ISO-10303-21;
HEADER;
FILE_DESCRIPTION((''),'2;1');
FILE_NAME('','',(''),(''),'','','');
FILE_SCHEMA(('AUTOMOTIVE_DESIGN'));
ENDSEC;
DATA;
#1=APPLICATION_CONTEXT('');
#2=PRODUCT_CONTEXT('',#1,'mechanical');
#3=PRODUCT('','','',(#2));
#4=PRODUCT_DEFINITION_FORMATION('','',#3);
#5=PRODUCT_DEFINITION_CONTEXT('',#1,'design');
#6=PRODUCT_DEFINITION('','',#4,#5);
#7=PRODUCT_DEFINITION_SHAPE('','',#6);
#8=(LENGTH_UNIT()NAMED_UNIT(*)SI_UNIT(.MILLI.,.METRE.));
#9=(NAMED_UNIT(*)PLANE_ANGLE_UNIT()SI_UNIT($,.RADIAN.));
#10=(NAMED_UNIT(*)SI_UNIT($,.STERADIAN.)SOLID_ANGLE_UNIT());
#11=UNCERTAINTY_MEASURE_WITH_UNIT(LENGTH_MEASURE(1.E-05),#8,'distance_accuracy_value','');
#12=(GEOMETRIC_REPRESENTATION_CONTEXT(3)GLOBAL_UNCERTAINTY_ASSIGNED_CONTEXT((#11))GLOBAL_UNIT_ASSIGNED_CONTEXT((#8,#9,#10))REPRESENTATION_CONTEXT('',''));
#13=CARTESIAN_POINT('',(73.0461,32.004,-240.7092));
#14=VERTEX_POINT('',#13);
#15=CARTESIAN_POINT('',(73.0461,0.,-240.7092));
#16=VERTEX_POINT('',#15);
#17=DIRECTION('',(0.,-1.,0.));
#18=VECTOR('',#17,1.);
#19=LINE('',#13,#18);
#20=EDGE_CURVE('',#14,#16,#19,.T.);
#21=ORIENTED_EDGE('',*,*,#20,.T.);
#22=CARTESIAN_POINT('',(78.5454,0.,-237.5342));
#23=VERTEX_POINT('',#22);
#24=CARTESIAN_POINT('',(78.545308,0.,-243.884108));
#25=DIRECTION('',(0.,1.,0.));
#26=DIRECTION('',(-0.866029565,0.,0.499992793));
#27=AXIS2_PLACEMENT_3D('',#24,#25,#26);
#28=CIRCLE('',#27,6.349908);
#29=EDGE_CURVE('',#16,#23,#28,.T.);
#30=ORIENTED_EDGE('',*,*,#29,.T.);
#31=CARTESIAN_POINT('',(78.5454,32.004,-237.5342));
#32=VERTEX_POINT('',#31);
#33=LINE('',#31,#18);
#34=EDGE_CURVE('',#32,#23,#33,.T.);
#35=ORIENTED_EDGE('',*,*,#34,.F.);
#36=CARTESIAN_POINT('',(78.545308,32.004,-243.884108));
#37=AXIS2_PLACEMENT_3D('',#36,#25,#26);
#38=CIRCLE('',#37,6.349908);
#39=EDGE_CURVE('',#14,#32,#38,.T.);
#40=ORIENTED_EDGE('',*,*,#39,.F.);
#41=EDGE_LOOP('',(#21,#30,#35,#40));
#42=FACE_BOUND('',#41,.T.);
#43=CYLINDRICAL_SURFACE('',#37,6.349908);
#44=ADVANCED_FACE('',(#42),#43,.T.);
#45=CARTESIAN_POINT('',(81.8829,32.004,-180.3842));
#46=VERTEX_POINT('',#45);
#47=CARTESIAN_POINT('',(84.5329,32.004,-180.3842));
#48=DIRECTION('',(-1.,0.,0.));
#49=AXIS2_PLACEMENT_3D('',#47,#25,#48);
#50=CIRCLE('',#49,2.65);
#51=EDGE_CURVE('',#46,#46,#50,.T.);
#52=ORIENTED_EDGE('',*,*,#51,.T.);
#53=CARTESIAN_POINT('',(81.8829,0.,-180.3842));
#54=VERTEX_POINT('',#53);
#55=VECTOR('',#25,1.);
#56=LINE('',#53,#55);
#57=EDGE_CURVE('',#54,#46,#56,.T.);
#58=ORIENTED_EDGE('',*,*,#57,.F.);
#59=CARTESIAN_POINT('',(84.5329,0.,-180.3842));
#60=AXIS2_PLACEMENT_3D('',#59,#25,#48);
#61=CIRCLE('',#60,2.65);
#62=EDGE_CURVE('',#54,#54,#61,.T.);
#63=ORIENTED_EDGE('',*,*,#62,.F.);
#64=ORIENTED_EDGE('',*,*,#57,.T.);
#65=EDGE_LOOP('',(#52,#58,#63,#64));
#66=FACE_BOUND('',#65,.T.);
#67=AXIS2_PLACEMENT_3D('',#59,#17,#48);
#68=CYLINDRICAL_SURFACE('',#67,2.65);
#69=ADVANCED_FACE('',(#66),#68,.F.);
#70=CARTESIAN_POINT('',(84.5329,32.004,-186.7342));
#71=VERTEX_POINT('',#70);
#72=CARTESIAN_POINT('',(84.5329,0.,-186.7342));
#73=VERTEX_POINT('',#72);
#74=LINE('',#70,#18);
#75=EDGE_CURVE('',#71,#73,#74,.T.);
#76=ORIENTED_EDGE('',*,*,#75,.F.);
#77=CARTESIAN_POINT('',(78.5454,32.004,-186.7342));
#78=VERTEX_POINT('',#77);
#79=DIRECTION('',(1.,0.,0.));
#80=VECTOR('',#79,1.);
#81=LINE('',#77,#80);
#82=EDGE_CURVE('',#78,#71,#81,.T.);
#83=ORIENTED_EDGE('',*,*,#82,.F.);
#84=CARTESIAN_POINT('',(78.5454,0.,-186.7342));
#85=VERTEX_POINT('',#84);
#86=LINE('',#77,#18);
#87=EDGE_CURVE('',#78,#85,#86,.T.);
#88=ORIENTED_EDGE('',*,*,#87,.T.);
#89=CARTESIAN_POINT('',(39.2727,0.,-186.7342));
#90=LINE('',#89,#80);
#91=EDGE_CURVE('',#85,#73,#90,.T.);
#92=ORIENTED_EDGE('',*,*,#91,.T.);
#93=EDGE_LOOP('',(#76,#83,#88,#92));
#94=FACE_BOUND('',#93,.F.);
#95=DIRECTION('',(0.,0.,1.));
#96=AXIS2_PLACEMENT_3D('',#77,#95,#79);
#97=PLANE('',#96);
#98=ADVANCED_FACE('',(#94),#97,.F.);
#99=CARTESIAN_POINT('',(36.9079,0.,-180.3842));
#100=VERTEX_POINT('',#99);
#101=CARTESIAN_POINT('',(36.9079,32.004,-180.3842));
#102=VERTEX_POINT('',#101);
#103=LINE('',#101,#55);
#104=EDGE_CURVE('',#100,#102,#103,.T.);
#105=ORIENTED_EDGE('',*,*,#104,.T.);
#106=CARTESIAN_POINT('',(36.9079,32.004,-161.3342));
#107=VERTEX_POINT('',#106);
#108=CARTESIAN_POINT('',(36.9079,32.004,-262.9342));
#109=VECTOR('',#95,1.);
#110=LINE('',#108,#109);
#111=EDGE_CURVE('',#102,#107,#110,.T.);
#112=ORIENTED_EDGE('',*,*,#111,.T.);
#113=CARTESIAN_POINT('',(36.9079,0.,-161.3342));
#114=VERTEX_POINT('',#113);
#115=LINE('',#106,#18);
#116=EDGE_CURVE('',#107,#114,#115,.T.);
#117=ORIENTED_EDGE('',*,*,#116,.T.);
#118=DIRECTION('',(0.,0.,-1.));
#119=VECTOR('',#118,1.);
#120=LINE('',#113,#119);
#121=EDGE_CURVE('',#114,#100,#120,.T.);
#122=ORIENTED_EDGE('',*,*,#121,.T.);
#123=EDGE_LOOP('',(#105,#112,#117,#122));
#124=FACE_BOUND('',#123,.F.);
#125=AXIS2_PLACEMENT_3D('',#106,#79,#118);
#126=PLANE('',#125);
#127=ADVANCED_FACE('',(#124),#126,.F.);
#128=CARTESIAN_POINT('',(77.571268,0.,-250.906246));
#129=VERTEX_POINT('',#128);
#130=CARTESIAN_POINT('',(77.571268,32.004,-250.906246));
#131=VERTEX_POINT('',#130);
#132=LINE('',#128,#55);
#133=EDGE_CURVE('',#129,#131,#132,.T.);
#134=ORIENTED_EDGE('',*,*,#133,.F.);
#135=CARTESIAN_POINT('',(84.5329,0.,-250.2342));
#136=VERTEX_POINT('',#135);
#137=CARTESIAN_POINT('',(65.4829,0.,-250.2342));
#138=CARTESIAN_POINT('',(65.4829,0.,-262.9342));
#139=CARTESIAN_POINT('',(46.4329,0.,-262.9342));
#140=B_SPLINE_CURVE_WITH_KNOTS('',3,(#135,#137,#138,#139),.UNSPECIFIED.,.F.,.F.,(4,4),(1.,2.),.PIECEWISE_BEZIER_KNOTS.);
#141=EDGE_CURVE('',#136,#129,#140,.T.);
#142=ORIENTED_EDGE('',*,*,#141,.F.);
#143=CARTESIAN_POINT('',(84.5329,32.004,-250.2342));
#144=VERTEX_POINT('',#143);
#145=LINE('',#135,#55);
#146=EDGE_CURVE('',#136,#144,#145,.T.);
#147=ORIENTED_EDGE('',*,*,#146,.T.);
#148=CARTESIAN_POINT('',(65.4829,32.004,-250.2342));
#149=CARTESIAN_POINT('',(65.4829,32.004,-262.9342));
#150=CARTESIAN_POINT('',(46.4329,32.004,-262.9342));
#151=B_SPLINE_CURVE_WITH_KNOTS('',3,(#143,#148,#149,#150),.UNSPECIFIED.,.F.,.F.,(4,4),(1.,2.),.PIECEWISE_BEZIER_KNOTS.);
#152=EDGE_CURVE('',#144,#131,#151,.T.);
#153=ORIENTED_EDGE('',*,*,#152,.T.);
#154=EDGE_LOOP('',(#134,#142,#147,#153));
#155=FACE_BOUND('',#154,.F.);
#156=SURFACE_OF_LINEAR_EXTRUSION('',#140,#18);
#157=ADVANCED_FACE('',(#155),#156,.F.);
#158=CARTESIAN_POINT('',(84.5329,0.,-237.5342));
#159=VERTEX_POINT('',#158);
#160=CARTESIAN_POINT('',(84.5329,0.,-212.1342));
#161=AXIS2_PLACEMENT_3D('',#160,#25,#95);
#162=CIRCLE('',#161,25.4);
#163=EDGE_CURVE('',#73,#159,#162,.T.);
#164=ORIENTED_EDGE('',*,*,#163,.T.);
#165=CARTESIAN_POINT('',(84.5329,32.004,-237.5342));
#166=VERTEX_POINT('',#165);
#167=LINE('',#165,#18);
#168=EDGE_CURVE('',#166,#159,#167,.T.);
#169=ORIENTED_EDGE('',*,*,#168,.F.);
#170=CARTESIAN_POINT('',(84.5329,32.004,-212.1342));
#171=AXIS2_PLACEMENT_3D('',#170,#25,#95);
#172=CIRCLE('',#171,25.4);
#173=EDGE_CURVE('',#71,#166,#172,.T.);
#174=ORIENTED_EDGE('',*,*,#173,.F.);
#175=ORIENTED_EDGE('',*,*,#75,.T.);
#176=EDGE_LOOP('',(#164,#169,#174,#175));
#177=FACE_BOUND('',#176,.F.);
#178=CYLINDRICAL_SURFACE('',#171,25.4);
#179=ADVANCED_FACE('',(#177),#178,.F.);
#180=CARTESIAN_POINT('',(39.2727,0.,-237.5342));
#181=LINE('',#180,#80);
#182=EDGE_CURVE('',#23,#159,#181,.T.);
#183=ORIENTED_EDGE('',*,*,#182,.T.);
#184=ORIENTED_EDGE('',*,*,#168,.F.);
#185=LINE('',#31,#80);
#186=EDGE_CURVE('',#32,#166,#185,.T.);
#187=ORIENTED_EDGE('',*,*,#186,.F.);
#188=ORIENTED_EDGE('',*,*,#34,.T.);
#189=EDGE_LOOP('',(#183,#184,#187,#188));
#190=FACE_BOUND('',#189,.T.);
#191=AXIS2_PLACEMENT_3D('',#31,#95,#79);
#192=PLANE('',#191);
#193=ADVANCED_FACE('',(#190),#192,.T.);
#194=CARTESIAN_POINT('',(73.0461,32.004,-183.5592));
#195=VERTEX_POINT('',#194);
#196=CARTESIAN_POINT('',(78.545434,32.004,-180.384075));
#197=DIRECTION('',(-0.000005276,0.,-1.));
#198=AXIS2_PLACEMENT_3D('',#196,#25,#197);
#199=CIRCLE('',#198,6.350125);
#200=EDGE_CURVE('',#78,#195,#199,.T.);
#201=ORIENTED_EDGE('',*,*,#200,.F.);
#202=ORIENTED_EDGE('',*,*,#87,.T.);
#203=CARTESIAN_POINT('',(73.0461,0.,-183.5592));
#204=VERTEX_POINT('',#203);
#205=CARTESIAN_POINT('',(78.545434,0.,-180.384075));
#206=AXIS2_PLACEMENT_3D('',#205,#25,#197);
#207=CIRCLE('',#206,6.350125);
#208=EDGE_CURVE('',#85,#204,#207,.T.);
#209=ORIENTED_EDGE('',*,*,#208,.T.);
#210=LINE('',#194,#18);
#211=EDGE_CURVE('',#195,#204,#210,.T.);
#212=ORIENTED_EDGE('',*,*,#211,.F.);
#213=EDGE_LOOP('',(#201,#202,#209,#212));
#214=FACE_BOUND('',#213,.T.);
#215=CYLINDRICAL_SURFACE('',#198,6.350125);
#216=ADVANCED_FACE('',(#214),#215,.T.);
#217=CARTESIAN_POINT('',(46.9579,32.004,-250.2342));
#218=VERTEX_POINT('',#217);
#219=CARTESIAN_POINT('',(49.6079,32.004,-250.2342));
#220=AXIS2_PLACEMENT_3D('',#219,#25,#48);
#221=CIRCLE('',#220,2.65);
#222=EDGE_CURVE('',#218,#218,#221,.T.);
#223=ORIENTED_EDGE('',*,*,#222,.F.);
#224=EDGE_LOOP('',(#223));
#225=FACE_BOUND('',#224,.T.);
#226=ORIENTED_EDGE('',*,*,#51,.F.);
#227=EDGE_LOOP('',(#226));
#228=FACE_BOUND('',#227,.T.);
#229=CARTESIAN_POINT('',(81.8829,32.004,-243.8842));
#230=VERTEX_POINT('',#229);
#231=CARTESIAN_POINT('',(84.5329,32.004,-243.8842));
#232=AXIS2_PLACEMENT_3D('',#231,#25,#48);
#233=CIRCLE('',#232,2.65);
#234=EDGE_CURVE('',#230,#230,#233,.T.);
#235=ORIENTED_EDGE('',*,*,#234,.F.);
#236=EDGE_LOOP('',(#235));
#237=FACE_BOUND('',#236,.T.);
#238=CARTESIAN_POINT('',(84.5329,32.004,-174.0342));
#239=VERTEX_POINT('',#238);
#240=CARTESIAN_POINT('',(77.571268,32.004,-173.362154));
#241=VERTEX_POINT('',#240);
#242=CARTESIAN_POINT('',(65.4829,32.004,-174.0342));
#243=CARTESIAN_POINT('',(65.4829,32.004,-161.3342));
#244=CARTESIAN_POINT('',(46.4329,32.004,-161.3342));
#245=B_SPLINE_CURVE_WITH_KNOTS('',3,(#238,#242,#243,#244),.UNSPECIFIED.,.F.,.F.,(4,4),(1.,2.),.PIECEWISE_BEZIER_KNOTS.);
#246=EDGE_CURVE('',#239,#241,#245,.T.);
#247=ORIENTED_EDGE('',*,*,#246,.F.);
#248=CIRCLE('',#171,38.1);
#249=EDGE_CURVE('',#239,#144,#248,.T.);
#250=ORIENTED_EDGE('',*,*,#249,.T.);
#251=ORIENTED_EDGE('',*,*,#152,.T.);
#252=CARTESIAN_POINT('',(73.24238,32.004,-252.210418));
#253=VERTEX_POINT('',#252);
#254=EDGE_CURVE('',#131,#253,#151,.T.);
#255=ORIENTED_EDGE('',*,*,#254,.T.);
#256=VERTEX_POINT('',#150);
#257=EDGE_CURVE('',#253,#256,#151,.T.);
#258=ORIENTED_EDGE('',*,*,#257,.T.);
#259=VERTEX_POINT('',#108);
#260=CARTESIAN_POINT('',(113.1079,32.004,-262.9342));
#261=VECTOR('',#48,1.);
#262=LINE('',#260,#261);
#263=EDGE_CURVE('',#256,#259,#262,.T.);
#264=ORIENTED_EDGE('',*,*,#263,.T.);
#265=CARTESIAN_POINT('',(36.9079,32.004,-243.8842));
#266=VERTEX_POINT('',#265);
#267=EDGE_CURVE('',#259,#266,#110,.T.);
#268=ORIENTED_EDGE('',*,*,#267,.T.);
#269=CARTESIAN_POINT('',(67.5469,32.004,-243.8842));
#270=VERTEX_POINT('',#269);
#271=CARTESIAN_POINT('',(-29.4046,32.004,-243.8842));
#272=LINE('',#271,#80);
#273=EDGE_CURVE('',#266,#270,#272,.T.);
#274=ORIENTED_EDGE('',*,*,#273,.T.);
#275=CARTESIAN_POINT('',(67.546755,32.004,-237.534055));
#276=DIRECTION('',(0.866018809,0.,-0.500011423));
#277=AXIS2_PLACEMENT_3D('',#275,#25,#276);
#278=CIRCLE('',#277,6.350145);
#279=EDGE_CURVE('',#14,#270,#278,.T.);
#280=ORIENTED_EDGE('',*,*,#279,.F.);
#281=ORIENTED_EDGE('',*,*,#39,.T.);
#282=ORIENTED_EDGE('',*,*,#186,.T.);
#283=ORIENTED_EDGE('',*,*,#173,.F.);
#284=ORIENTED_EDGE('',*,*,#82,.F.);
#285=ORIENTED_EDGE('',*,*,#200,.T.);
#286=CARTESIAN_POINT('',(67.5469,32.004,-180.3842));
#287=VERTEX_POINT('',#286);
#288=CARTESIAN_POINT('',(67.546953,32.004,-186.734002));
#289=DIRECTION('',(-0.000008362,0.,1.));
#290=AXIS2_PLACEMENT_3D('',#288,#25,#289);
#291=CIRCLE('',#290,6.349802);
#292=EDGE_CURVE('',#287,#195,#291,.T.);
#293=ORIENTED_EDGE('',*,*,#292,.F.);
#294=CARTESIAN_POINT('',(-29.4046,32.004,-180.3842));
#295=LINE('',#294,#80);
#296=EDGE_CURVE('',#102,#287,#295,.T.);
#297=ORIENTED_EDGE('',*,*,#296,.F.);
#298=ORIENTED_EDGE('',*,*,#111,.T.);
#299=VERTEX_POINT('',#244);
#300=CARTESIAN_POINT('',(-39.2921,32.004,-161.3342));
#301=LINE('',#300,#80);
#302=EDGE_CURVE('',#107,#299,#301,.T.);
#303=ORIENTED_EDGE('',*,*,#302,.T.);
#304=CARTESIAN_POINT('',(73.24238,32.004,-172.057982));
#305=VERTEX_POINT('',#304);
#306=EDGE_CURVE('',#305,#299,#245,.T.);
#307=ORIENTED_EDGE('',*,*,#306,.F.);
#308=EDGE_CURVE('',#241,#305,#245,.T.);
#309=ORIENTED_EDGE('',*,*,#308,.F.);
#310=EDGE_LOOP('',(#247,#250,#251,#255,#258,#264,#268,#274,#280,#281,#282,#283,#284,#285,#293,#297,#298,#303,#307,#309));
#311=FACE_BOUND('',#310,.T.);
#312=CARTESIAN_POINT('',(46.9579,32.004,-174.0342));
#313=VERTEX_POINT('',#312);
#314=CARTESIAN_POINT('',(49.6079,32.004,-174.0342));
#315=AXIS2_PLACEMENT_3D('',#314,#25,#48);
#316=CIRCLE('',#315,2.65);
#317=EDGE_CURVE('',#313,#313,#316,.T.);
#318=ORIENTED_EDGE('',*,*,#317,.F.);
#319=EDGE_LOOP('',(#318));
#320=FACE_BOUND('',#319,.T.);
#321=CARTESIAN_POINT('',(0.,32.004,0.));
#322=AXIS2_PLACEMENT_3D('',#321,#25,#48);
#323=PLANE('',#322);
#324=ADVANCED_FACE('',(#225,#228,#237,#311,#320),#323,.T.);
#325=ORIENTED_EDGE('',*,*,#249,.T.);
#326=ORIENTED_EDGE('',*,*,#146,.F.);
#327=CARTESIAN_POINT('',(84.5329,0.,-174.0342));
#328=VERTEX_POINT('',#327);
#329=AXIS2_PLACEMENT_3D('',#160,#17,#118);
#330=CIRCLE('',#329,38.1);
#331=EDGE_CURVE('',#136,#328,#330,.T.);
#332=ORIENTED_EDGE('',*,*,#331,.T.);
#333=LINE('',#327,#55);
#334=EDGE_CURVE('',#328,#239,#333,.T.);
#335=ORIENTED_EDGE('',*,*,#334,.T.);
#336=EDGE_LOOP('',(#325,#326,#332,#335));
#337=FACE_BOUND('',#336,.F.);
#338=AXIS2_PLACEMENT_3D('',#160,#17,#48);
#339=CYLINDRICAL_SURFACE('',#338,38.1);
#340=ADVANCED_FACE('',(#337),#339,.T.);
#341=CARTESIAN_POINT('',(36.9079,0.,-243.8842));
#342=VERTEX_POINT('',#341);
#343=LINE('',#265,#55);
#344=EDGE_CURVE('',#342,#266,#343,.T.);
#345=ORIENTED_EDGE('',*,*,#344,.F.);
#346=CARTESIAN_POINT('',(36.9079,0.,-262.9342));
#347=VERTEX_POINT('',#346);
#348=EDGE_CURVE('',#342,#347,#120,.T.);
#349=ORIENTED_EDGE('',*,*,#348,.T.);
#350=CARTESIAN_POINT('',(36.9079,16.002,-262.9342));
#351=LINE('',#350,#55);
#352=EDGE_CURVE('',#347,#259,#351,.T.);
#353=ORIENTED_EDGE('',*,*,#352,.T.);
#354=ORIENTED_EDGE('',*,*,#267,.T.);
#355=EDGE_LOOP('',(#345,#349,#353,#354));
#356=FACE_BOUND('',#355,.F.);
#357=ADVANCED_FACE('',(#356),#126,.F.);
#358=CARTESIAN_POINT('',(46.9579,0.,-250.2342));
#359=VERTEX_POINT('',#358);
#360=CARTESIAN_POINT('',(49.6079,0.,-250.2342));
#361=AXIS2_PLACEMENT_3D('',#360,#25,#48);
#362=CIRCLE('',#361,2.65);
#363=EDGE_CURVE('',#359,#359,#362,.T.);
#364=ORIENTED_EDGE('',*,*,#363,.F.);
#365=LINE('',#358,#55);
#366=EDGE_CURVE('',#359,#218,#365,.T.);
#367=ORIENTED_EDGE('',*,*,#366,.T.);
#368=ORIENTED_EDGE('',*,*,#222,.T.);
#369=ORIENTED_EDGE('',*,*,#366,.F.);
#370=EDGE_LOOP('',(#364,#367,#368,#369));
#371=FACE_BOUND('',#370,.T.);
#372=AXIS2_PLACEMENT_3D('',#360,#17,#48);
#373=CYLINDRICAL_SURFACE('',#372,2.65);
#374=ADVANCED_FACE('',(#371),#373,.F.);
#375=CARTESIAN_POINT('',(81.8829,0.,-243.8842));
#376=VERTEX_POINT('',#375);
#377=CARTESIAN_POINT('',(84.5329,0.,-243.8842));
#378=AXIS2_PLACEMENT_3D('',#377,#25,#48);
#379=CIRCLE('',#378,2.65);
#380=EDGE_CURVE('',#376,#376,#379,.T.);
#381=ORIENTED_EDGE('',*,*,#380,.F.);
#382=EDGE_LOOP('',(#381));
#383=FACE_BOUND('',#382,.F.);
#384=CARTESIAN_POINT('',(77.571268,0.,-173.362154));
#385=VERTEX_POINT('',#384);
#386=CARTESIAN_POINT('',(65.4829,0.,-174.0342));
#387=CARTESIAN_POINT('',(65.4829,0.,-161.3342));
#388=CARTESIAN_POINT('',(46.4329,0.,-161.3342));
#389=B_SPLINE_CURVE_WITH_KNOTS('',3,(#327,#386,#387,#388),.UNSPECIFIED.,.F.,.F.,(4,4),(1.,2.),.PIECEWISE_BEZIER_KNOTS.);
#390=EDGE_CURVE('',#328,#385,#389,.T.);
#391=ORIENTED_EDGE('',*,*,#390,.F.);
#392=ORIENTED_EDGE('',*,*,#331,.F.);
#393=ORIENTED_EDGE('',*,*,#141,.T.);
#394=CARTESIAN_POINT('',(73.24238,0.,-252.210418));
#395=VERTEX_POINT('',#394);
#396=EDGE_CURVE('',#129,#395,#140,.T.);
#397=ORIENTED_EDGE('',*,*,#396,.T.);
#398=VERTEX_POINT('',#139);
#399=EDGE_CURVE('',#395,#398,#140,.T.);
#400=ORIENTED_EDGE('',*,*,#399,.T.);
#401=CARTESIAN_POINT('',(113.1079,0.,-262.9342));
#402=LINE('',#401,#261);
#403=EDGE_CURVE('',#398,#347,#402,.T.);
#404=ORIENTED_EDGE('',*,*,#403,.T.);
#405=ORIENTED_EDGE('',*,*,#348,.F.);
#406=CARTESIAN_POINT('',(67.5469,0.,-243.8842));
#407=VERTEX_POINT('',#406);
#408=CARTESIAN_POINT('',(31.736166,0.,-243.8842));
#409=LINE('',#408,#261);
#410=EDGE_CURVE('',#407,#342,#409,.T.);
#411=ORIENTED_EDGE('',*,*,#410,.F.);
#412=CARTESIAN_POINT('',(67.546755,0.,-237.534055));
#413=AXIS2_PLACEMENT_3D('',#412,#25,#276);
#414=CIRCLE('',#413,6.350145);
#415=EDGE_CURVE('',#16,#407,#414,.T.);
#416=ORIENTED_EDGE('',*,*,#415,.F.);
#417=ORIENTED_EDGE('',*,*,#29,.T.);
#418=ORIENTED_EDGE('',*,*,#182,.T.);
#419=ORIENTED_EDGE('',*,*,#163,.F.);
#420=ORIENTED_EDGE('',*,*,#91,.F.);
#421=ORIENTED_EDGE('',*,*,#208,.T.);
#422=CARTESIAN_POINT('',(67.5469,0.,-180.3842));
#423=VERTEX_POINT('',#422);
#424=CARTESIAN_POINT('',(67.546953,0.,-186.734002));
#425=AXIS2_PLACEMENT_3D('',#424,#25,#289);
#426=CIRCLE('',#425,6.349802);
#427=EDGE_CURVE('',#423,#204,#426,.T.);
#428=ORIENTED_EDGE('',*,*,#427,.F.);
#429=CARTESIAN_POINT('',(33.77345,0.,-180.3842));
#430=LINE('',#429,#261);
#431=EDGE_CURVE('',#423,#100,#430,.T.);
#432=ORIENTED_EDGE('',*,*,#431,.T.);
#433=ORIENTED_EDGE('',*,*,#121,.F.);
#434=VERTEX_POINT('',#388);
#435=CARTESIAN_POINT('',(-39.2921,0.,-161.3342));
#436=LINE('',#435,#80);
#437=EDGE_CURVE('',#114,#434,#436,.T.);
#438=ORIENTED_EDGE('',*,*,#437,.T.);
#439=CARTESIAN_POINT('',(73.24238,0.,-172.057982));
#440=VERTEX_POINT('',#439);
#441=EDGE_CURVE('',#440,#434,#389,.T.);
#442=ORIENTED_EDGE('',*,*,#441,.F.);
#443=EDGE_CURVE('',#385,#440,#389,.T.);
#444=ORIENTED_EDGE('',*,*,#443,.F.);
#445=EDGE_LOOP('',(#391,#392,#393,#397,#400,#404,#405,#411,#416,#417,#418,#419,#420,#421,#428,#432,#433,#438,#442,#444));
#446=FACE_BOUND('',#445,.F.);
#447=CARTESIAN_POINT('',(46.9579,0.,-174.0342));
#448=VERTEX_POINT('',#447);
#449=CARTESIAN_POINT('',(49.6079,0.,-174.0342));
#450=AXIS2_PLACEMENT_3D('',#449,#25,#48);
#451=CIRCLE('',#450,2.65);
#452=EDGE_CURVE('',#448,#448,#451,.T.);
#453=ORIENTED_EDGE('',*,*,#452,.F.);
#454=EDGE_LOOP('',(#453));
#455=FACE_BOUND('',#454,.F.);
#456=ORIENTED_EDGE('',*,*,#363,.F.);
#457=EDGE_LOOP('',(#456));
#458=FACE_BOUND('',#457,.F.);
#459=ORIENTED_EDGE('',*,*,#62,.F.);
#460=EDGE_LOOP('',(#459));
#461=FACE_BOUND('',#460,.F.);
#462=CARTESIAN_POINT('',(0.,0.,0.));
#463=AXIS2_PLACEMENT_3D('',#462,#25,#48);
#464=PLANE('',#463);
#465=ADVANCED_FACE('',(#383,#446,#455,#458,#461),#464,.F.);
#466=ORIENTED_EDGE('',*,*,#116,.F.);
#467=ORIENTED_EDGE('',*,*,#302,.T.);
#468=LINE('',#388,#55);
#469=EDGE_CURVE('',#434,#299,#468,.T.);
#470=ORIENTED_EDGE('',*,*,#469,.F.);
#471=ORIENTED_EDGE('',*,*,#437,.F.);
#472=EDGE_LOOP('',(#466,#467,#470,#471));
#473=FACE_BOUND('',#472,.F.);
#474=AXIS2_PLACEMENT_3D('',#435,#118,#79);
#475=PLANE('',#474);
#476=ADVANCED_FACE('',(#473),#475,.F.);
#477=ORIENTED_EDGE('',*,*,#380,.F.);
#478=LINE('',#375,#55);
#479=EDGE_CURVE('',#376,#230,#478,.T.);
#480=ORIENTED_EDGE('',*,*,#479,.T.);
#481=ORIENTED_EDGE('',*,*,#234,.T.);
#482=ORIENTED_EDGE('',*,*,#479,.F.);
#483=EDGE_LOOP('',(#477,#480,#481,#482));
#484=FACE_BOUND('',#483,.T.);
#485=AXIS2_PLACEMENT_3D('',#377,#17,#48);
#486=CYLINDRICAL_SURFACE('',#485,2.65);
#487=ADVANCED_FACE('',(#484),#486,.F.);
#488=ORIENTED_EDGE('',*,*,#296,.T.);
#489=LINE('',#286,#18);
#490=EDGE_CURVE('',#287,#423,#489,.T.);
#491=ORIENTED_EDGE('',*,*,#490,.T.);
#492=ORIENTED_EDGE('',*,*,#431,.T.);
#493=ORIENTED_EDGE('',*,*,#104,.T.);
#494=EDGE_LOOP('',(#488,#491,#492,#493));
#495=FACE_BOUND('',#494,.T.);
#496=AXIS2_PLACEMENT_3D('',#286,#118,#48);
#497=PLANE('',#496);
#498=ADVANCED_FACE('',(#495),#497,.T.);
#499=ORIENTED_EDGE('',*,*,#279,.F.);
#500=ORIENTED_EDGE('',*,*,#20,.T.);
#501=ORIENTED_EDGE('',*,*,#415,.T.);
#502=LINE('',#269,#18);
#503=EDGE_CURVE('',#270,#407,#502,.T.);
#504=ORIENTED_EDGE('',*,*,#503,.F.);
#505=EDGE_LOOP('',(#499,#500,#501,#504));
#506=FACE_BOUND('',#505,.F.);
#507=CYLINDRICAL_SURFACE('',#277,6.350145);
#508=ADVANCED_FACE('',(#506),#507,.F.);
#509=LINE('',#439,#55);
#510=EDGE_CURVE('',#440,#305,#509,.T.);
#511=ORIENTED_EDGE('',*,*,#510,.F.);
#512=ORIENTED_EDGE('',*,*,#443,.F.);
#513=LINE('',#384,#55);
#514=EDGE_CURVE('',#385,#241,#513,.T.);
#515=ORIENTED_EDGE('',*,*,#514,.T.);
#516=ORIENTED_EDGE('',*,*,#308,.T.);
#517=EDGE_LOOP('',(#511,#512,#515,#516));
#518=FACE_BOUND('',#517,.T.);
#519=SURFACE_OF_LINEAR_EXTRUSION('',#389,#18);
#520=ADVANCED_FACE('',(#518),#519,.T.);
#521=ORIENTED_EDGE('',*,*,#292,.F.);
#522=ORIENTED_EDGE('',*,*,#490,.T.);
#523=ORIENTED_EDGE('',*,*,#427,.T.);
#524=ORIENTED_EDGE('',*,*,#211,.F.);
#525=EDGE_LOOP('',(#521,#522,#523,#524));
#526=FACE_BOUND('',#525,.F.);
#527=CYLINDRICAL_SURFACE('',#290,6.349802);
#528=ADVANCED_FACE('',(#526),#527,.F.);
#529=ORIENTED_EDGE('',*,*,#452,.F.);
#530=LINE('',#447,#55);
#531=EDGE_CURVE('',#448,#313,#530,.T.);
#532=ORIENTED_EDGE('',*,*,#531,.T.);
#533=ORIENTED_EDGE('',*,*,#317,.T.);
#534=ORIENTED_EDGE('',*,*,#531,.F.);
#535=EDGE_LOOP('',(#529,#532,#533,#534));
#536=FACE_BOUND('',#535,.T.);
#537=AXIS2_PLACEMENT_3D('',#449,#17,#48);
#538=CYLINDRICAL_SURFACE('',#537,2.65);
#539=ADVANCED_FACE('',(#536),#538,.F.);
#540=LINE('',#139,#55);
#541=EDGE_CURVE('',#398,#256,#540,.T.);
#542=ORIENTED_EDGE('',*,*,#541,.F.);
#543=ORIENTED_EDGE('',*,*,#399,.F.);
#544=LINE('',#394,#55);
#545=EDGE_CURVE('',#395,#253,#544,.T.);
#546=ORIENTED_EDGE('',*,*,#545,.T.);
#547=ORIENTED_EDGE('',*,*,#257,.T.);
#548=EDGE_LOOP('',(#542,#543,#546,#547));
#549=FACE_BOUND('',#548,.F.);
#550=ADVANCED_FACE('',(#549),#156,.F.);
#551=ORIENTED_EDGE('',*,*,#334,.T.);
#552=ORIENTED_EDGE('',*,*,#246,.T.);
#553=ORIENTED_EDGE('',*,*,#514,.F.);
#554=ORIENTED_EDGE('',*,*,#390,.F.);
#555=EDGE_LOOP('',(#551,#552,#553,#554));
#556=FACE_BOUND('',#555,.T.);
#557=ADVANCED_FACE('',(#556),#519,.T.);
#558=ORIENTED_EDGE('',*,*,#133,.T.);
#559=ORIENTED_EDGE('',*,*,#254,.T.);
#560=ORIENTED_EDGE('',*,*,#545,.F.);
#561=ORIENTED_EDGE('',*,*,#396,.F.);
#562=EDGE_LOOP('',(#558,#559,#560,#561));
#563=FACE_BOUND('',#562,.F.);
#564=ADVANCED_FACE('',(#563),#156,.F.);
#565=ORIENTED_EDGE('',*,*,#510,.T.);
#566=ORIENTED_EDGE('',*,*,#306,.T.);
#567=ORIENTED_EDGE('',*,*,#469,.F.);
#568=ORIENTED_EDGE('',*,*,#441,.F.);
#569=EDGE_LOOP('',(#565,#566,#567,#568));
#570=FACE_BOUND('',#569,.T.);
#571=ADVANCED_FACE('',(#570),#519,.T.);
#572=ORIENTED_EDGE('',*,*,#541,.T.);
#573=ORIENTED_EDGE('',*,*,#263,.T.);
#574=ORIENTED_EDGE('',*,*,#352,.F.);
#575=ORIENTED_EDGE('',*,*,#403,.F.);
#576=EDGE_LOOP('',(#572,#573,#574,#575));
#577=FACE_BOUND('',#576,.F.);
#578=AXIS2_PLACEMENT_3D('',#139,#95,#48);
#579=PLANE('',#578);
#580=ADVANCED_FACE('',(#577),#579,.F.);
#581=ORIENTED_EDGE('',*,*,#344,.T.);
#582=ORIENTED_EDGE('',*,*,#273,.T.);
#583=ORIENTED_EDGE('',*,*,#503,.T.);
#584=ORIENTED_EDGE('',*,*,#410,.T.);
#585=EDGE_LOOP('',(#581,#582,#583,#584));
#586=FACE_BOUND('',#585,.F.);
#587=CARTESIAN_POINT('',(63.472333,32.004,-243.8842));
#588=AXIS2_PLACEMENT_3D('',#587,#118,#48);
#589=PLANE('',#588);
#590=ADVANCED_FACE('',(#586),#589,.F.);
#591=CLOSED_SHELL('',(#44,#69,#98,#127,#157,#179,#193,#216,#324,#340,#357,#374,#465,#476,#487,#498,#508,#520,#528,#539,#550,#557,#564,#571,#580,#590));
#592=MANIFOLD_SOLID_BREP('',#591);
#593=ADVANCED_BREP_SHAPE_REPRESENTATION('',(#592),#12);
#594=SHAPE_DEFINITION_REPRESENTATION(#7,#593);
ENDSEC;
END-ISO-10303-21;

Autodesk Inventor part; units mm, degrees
ref_plane "YZ Plane" through (0, 0, 0) normal (1, 0, 0) x (0, 1, 0)
ref_plane "XZ Plane" through (0, 0, 0) normal (0, 1, 0) x (-1, 0, 0)
ref_plane "XY Plane" through (0, 0, 0) normal (0, 0, 1) x (1, 0, 0)
sketch "Sketch1" plane through (0, 0, 0) normal (0, 1, 0) x (-1, 0, 0)
  line L0 (99.4671, -212.1342) -> (-395.7488, 283.0816) construction
  circle A0 centre (-24.2079, -174.0342) radius 2.65
  circle A1 centre (-21.0329, -212.1342) radius 6.35
  circle A2 centre (1.1921, -174.0342) radius 2.65
  circle A3 centre (10.7171, -212.1342) radius 14.2875
  circle A4 centre (26.5921, -174.0342) radius 2.65
  line L1 (-84.5329, -212.1342) -> (10.7171, -212.1342) construction
  line L2 (39.2921, -161.3342) -> (-113.1079, -161.3342)
  line L3 (-113.1079, -262.9342) -> (39.2921, -262.9342)
  circle A5 centre (-49.6079, -174.0342) radius 2.65
  circle A6 centre (-52.7829, -212.1342) radius 6.35
  circle A7 centre (-75.0079, -174.0342) radius 2.65
  circle A8 centre (-75.0079, -250.2342) radius 2.65
  circle A9 centre (-84.5329, -212.1342) radius 14.2875
  circle A10 centre (-100.4079, -174.0342) radius 2.65
  circle A11 centre (-100.4079, -250.2342) radius 2.65
  circle A12 centre (-49.6079, -250.2342) radius 2.65
  circle A13 centre (1.1921, -250.2342) radius 2.65
  circle A14 centre (26.5921, -250.2342) radius 2.65
  circle A15 centre (-24.2079, -250.2342) radius 2.65
  line L4 (39.2921, -262.9342) -> (39.2921, -161.3342)
  line L5 (39.2921, -237.5342) -> (395.5271, -237.5342)
  line L6 (74.0671, -186.7342) -> (39.2921, -186.7342)
  line L7 (-113.1079, -161.3342) -> (-113.1079, -262.9342)
  spline S0 degree 3 poles (-84.5329, -174.0342) (-65.4829, -174.0342) (-65.4829, -161.3342) (-46.4329, -161.3342) knots 1 1 1 1 2 2 2 2
  line L8 (-84.5329, -174.0342) -> (-65.4829, -174.0342) construction
  line L9 (-65.4829, -174.0342) -> (-65.4829, -161.3342) construction
  line L10 (-65.4829, -161.3342) -> (-46.4329, -161.3342) construction
  circle A16 centre (-84.5329, -212.1342) radius 38.1
  circle A17 centre (-84.5329, -180.3842) radius 2.65
  spline S1 degree 3 poles (-84.5329, -250.2342) (-65.4829, -250.2342) (-65.4829, -262.9342) (-46.4329, -262.9342) knots 1 1 1 1 2 2 2 2
  line L11 (-84.5329, -250.2342) -> (-65.4829, -250.2342) construction
  line L12 (-65.4829, -250.2342) -> (-65.4829, -262.9342) construction
  line L13 (-65.4829, -262.9342) -> (-46.4329, -262.9342) construction
  circle A18 centre (-84.5329, -243.8842) radius 2.65
  point P0 (0, 0)
  point P1 (-36.9079, -262.9342)
  point P2 (-36.9079, -212.1342)
  point P3 (39.2921, -212.1342)
  point P4 (-46.4329, -262.9342)
  point P5 (-46.4329, -161.3342)
  dimension "d0" = 31.75
extrude "Extrusion1" add sketch "Sketch1" along normal blind 32.004 contours L4 L3 S1 A8 A16 A7 S0 L2 | A7 A16 S0 | A16 A7 A8 L7 | L7 A16 | A7 A16 S0 | A7 A16 | A16 A8 S1 | S1 A8 A16 | A8 A16
sketch "Sketch2" plane through (0, 32.004, 0) normal (0, 1, 0) x (1, 0, 0)
  circle A0 centre (49.6079, 174.0342) radius 2.65 projected
  circle A1 centre (49.6079, 174.0342) radius 2.65
  line L0 (49.6079, 174.0342) -> (36.9079, 174.0342)
  line L1 (-39.2921, 161.3342) -> (46.4329, 161.3342) projected
  line L2 (36.9079, 161.3342) -> (36.9079, 271.4653)
  line L3 (36.9079, 271.4653) -> (-75.2217, 284.061)
  line L4 (-75.2217, 284.061) -> (-39.9967, 13.0358)
  line L5 (-39.9967, 13.0358) -> (36.9079, 161.3342)
  point P0 (0, 0)
  dimension "d3" = 12.7
extrude "Extrusion2" cut sketch "Sketch2" against normal through all contours L2 L5 L4 L3
sketch "Sketch3" plane through (0, 32.004, 0) normal (0, 1, 0) x (1, 0, 0)
  line L0 (26.0555, 454.6039) -> (26.0555, 378.7664)
  line L1 (26.0555, 454.6039) -> (26.0555, 378.7664)
  arc A0 (38.7555, 340.6664) -> (114.9555, 340.6664) centre (76.8555, 340.6664) ccw
  circle A1 centre (76.8555, 340.6664) radius 38.1
  line L2 (26.0555, 378.7664) -> (45.1055, 378.7664)
  line L3 (45.1055, 357.6525) -> (45.1055, 454.6039)
  arc A2 (51.4555, 340.6664) -> (102.2555, 340.6664) centre (76.8555, 340.6664) ccw
  line L4 (45.1055, 378.7664) -> (51.4555, 378.7664)
  line L5 (51.4555, 346.6539) -> (51.4555, 340.6664)
  line L6 (45.1055, 353.0039) -> (45.1055, 353.0039)
  arc A3 (51.4555, 346.6539) -> (48.2805, 352.1532) centre (45.1055, 346.6539) ccw
  arc A4 (45.1055, 357.6525) -> (48.2805, 352.1532) centre (51.4555, 357.6525) ccw
  line L7 (108.6055, 357.6525) -> (108.6055, 454.6039)
  arc A5 (105.4305, 352.1532) -> (102.2555, 346.6539) centre (108.6055, 346.6539) ccw
  arc A6 (105.4305, 352.1532) -> (108.6055, 357.6525) centre (102.2555, 357.6525) ccw
  line L8 (102.2555, 346.6539) -> (102.2555, 340.6664)
  line L9 (127.6555, 378.7664) -> (127.6555, 454.8164)
  line L10 (127.6555, 454.8164) -> (127.6555, 337.8192)
  spline S0 degree 3 poles (26.0555, 378.7664) (26.0555, 359.7164) (38.7555, 359.7164) (38.7555, 340.6664) knots 1 1 1 1 2 2 2 2
  line L11 (26.0555, 378.7664) -> (26.0555, 359.7164) construction
  line L12 (26.0555, 359.7164) -> (38.7555, 359.7164) construction
  line L13 (38.7555, 359.7164) -> (38.7555, 340.6664) construction
  line L14 (76.8555, 340.6664) -> (76.8555, 373.056)
  spline S1 degree 3 poles (127.6555, 378.7664) (127.6555, 359.7164) (114.9555, 359.7164) (114.9555, 340.6664) knots 1 1 1 1 2 2 2 2
  line L15 (127.6555, 378.7664) -> (127.6555, 359.7164) construction
  line L16 (127.6555, 359.7164) -> (114.9555, 359.7164) construction
  line L17 (114.9555, 359.7164) -> (114.9555, 340.6664) construction
  circle A7 centre (38.7555, 400.9914) radius 2.65
  circle A8 centre (38.7555, 400.9914) radius 2.65
  circle A9 centre (38.7555, 375.5914) radius 2.65
  circle A10 centre (38.7555, 375.5914) radius 2.65
  circle A11 centre (45.1055, 340.6664) radius 2.65
  circle A12 centre (45.1055, 340.6664) radius 2.65
  circle A13 centre (108.6055, 340.6664) radius 2.65
  circle A14 centre (108.6055, 340.6664) radius 2.65
  circle A15 centre (114.9555, 375.5914) radius 2.65
  circle A16 centre (114.9555, 375.5914) radius 2.65
  circle A17 centre (114.9555, 400.9914) radius 2.65
  circle A18 centre (114.9555, 400.9914) radius 2.65
  circle A19 centre (76.8555, 308.9164) radius 2.65
  circle A20 centre (76.8555, 308.9164) radius 2.65
  line L18 (70.868, 315.2664) -> (76.8555, 315.2664)
  arc A21 (70.868, 315.2664) -> (65.3687, 312.0914) centre (70.868, 308.9164) ccw
  line L19 (64.518, 308.9164) -> (64.518, 308.9164)
  arc A22 (59.8694, 308.9164) -> (65.3687, 312.0914) centre (59.8694, 315.2664) ccw
  line L20 (57.8055, 302.5664) -> (76.8555, 302.5664) construction
  spline S2 degree 3 poles (38.7555, 289.8664) (57.8055, 289.8664) (57.8055, 302.5664) (76.8555, 302.5664) knots 1 1 1 1 2 2 2 2
  line L21 (38.7555, 289.8664) -> (57.8055, 289.8664) construction
  line L22 (57.8055, 289.8664) -> (57.8055, 302.5664) construction
  line L23 (38.7555, 308.9164) -> (38.7555, 315.2664)
  line L24 (38.7555, 289.8664) -> (38.7555, 308.9164)
  circle A23 centre (41.9305, 302.5664) radius 2.65
  line L25 (-37.082, 289.8664) -> (38.7555, 289.8664)
  line L26 (-37.082, 289.8664) -> (38.7555, 289.8664)
  line L27 (59.8694, 308.9164) -> (-37.082, 308.9164)
  line L28 (59.8694, 372.4164) -> (-37.082, 372.4164)
  circle A24 centre (16.5305, 378.7664) radius 2.65
  circle A25 centre (16.5305, 378.7664) radius 2.65
  line L29 (-37.2945, 391.4664) -> (79.7027, 391.4664)
  line L30 (38.7555, 391.4664) -> (-37.2945, 391.4664)
  circle A26 centre (16.5305, 302.5664) radius 2.65
  circle A27 centre (16.5305, 302.5664) radius 2.65
  circle A28 centre (41.9305, 302.5664) radius 2.65
  circle A29 centre (41.9305, 378.7664) radius 2.65
  circle A30 centre (41.9305, 378.7664) radius 2.65
  line L31 (38.7555, 391.4664) -> (57.8055, 391.4664) construction
  spline S3 degree 3 poles (38.7555, 391.4664) (57.8055, 391.4664) (57.8055, 378.7664) (76.8555, 378.7664) knots 1 1 1 1 2 2 2 2
  line L32 (57.8055, 391.4664) -> (57.8055, 378.7664) construction
  line L33 (57.8055, 378.7664) -> (76.8555, 378.7664) construction
  arc A31 (65.3687, 369.2414) -> (59.8694, 372.4164) centre (59.8694, 366.0664) ccw
  arc A32 (65.3687, 369.2414) -> (70.868, 366.0664) centre (70.868, 372.4164) ccw
  line L34 (70.868, 366.0664) -> (76.8555, 366.0664)
  circle A33 centre (76.8555, 372.4164) radius 2.65
  circle A34 centre (76.8555, 372.4164) radius 2.65
  arc A35 (76.8555, 302.5664) -> (76.8555, 378.7664) centre (76.8555, 340.6664) ccw
  circle A36 centre (76.8555, 340.6664) radius 38.1
  line L35 (76.8555, 340.6664) -> (44.4659, 340.6664)
  arc A37 (76.8555, 315.2664) -> (76.8555, 366.0664) centre (76.8555, 340.6664) ccw
  circle A38 centre (84.5329, 212.1342) radius 14.2875 projected
  circle A39 centre (84.5329, 212.1342) radius 14.2875
  circle A40 centre (52.7829, 212.1342) radius 2.65
  circle A41 centre (52.7829, 212.1342) radius 2.65
  line L36 (59.1329, 218.1218) -> (59.1329, 212.1342)
  arc A42 (59.1329, 218.1218) -> (55.9579, 223.6211) centre (52.7829, 218.1218) ccw
  line L37 (52.7829, 224.4718) -> (52.7829, 224.4718)
  arc A43 (52.7829, 229.1203) -> (55.9579, 223.6211) centre (59.1329, 229.1203) ccw
  line L38 (46.4329, 231.1842) -> (46.4329, 212.1342) construction
  spline S4 degree 3 poles (33.7329, 250.2342) (33.7329, 231.1842) (46.4329, 231.1842) (46.4329, 212.1342) knots 1 1 1 1 2 2 2 2
  line L39 (33.7329, 250.2342) -> (33.7329, 231.1842) construction
  line L40 (33.7329, 231.1842) -> (46.4329, 231.1842) construction
  line L41 (52.7829, 250.2342) -> (59.1329, 250.2342)
  line L42 (33.7329, 250.2342) -> (52.7829, 250.2342)
  circle A44 centre (46.4329, 247.0592) radius 2.65
  line L43 (33.7329, 326.0718) -> (33.7329, 250.2342)
  line L44 (33.7329, 326.0718) -> (33.7329, 250.2342)
  line L45 (52.7829, 229.1203) -> (52.7829, 326.0718)
  line L46 (116.2829, 229.1203) -> (116.2829, 326.0718)
  circle A45 centre (122.6329, 272.4592) radius 2.65
  circle A46 centre (122.6329, 272.4592) radius 2.65
  line L47 (135.3329, 326.2842) -> (135.3329, 209.2871)
  line L48 (135.3329, 250.2342) -> (135.3329, 326.2842)
  circle A47 centre (46.4329, 272.4592) radius 2.65
  circle A48 centre (46.4329, 272.4592) radius 2.65
  circle A49 centre (46.4329, 247.0592) radius 2.65
  circle A50 centre (122.6329, 247.0592) radius 2.65
  circle A51 centre (122.6329, 247.0592) radius 2.65
  line L49 (135.3329, 250.2342) -> (135.3329, 231.1842) construction
  spline S5 degree 3 poles (135.3329, 250.2342) (135.3329, 231.1842) (122.6329, 231.1842) (122.6329, 212.1342) knots 1 1 1 1 2 2 2 2
  line L50 (135.3329, 231.1842) -> (122.6329, 231.1842) construction
  line L51 (122.6329, 231.1842) -> (122.6329, 212.1342) construction
  arc A52 (113.1079, 223.6211) -> (116.2829, 229.1203) centre (109.9329, 229.1203) ccw
  arc A53 (113.1079, 223.6211) -> (109.9329, 218.1218) centre (116.2829, 218.1218) ccw
  line L52 (109.9329, 218.1218) -> (109.9329, 212.1342)
  circle A54 centre (116.2829, 212.1342) radius 2.65
  circle A55 centre (116.2829, 212.1342) radius 2.65
  arc A56 (46.4329, 212.1342) -> (122.6329, 212.1342) centre (84.5329, 212.1342) ccw
  circle A57 centre (84.5329, 212.1342) radius 38.1
  line L53 (84.5329, 212.1342) -> (84.5329, 244.5238)
  arc A58 (59.1329, 212.1342) -> (109.9329, 212.1342) centre (84.5329, 212.1342) ccw
  line L54 (78.5454, 237.5342) -> (84.5329, 237.5342)
  arc A59 (73.0461, 240.7092) -> (78.5454, 237.5342) centre (78.5454, 243.8842) ccw
  line L55 (84.5329, 212.1342) -> (52.1434, 212.1342)
  arc A60 (84.5329, 186.7342) -> (84.5329, 237.5342) centre (84.5329, 212.1342) ccw
  circle A61 centre (84.5329, 212.1342) radius 38.1
  arc A62 (84.5329, 174.0342) -> (84.5329, 250.2342) centre (84.5329, 212.1342) ccw
  line L56 (78.5454, 186.7342) -> (84.5329, 186.7342)
  arc A63 (78.5454, 186.7342) -> (73.0461, 183.5592) centre (78.5454, 180.3842) ccw
  line L57 (72.1954, 180.3842) -> (72.1954, 180.3842)
  arc A64 (67.5469, 180.3842) -> (73.0461, 183.5592) centre (67.5469, 186.7342) ccw
  circle A65 centre (84.5329, 180.3842) radius 2.65
  circle A66 centre (84.5329, 180.3842) radius 2.65
  line L58 (65.4829, 174.0342) -> (84.5329, 174.0342) construction
  spline S6 degree 3 poles (46.4329, 161.3342) (65.4829, 161.3342) (65.4829, 174.0342) (84.5329, 174.0342) knots 1 1 1 1 2 2 2 2
  line L59 (46.4329, 161.3342) -> (65.4829, 161.3342) construction
  line L60 (65.4829, 161.3342) -> (65.4829, 174.0342) construction
  line L61 (46.4329, 180.3842) -> (46.4329, 186.7342)
  circle A67 centre (84.5329, 243.8842) radius 2.65
  circle A68 centre (84.5329, 243.8842) radius 2.65
  line L62 (65.4829, 250.2342) -> (84.5329, 250.2342) construction
  spline S7 degree 3 poles (46.4329, 262.9342) (65.4829, 262.9342) (65.4829, 250.2342) (84.5329, 250.2342) knots 1 1 1 1 2 2 2 2
  line L63 (46.4329, 262.9342) -> (65.4829, 262.9342) construction
  line L64 (65.4829, 262.9342) -> (65.4829, 250.2342) construction
  circle A69 centre (49.6079, 250.2342) radius 2.65
  circle A70 centre (49.6079, 250.2342) radius 2.65
  arc A71 (73.0461, 240.7092) -> (67.5469, 243.8842) centre (67.5469, 237.5342) ccw
  line L65 (46.4329, 161.3342) -> (46.4329, 180.3842)
  circle A72 centre (49.6079, 174.0342) radius 2.65
  line L66 (-29.4046, 161.3342) -> (46.4329, 161.3342)
  line L67 (-29.4046, 161.3342) -> (46.4329, 161.3342)
  line L68 (67.5469, 180.3842) -> (-29.4046, 180.3842)
  line L69 (67.5469, 243.8842) -> (-29.4046, 243.8842)
  circle A73 centre (24.2079, 250.2342) radius 2.65
  circle A74 centre (24.2079, 250.2342) radius 2.65
  line L70 (-29.6171, 262.9342) -> (87.3801, 262.9342)
  line L71 (46.4329, 262.9342) -> (-29.6171, 262.9342)
  circle A75 centre (49.6079, 174.0342) radius 2.65
  circle A76 centre (24.2079, 174.0342) radius 2.65
  circle A77 centre (24.2079, 174.0342) radius 2.65
  line L72 (-29.4046, 180.3842) -> (-29.4046, 243.8842)
  point P0 (0, 0)
  point P1 (161.6667, 205.692)
  point P2 (36.9079, 161.3342)
  point P3 (71.58, 306.9082)
  point P4 (46.4329, 161.3342)
  point P5 (110.6137, 335.3909)
  point P6 (79.2575, 178.376)
  point P7 (118.2912, 206.8588)
  dimension "d9" = 19.05
  dimension "d10" = 12.7
  dimension "d11" = 76.2
  dimension "d12" = 101.6
  dimension "d13" = 6.35
  dimension "d14" = 19.05
  dimension "d15" = 19.05
  dimension "d16" = 19.05
  dimension "d17" = 12.7
  dimension "d18" = 76.2
  dimension "d19" = 101.6
  dimension "d20" = 6.35
  dimension "d21" = 19.05
  dimension "d22" = 19.05
  dimension "d23" = 19.05
  dimension "d24" = 12.7
  dimension "d25" = 76.2
  dimension "d26" = 101.6
  dimension "d27" = 6.35
  dimension "d28" = 19.05
  dimension "d29" = 19.05
  dimension "d30" = 19.05
  dimension "d31" = 12.7
  dimension "d32" = 76.2
  dimension "d33" = 101.6
  dimension "d34" = 6.35
  dimension "d35" = 19.05
  dimension "d36" = 19.05
extrude "Extrusion3" cut sketch "Sketch3" against normal through all contours L69 A57 L45 | L45 A57 S4 L69 | L69 A71 A59 L54 L53 A38 L55 L36 A42 A43 L45 A57 | S4 A56 L68 L72 L69 | L45 A43 A42 L36 A58 L56 A63 A64 L68 A56 A57 | A58 L55 A38 L53 A60
properties part number "L1 Gearbox Cover"
